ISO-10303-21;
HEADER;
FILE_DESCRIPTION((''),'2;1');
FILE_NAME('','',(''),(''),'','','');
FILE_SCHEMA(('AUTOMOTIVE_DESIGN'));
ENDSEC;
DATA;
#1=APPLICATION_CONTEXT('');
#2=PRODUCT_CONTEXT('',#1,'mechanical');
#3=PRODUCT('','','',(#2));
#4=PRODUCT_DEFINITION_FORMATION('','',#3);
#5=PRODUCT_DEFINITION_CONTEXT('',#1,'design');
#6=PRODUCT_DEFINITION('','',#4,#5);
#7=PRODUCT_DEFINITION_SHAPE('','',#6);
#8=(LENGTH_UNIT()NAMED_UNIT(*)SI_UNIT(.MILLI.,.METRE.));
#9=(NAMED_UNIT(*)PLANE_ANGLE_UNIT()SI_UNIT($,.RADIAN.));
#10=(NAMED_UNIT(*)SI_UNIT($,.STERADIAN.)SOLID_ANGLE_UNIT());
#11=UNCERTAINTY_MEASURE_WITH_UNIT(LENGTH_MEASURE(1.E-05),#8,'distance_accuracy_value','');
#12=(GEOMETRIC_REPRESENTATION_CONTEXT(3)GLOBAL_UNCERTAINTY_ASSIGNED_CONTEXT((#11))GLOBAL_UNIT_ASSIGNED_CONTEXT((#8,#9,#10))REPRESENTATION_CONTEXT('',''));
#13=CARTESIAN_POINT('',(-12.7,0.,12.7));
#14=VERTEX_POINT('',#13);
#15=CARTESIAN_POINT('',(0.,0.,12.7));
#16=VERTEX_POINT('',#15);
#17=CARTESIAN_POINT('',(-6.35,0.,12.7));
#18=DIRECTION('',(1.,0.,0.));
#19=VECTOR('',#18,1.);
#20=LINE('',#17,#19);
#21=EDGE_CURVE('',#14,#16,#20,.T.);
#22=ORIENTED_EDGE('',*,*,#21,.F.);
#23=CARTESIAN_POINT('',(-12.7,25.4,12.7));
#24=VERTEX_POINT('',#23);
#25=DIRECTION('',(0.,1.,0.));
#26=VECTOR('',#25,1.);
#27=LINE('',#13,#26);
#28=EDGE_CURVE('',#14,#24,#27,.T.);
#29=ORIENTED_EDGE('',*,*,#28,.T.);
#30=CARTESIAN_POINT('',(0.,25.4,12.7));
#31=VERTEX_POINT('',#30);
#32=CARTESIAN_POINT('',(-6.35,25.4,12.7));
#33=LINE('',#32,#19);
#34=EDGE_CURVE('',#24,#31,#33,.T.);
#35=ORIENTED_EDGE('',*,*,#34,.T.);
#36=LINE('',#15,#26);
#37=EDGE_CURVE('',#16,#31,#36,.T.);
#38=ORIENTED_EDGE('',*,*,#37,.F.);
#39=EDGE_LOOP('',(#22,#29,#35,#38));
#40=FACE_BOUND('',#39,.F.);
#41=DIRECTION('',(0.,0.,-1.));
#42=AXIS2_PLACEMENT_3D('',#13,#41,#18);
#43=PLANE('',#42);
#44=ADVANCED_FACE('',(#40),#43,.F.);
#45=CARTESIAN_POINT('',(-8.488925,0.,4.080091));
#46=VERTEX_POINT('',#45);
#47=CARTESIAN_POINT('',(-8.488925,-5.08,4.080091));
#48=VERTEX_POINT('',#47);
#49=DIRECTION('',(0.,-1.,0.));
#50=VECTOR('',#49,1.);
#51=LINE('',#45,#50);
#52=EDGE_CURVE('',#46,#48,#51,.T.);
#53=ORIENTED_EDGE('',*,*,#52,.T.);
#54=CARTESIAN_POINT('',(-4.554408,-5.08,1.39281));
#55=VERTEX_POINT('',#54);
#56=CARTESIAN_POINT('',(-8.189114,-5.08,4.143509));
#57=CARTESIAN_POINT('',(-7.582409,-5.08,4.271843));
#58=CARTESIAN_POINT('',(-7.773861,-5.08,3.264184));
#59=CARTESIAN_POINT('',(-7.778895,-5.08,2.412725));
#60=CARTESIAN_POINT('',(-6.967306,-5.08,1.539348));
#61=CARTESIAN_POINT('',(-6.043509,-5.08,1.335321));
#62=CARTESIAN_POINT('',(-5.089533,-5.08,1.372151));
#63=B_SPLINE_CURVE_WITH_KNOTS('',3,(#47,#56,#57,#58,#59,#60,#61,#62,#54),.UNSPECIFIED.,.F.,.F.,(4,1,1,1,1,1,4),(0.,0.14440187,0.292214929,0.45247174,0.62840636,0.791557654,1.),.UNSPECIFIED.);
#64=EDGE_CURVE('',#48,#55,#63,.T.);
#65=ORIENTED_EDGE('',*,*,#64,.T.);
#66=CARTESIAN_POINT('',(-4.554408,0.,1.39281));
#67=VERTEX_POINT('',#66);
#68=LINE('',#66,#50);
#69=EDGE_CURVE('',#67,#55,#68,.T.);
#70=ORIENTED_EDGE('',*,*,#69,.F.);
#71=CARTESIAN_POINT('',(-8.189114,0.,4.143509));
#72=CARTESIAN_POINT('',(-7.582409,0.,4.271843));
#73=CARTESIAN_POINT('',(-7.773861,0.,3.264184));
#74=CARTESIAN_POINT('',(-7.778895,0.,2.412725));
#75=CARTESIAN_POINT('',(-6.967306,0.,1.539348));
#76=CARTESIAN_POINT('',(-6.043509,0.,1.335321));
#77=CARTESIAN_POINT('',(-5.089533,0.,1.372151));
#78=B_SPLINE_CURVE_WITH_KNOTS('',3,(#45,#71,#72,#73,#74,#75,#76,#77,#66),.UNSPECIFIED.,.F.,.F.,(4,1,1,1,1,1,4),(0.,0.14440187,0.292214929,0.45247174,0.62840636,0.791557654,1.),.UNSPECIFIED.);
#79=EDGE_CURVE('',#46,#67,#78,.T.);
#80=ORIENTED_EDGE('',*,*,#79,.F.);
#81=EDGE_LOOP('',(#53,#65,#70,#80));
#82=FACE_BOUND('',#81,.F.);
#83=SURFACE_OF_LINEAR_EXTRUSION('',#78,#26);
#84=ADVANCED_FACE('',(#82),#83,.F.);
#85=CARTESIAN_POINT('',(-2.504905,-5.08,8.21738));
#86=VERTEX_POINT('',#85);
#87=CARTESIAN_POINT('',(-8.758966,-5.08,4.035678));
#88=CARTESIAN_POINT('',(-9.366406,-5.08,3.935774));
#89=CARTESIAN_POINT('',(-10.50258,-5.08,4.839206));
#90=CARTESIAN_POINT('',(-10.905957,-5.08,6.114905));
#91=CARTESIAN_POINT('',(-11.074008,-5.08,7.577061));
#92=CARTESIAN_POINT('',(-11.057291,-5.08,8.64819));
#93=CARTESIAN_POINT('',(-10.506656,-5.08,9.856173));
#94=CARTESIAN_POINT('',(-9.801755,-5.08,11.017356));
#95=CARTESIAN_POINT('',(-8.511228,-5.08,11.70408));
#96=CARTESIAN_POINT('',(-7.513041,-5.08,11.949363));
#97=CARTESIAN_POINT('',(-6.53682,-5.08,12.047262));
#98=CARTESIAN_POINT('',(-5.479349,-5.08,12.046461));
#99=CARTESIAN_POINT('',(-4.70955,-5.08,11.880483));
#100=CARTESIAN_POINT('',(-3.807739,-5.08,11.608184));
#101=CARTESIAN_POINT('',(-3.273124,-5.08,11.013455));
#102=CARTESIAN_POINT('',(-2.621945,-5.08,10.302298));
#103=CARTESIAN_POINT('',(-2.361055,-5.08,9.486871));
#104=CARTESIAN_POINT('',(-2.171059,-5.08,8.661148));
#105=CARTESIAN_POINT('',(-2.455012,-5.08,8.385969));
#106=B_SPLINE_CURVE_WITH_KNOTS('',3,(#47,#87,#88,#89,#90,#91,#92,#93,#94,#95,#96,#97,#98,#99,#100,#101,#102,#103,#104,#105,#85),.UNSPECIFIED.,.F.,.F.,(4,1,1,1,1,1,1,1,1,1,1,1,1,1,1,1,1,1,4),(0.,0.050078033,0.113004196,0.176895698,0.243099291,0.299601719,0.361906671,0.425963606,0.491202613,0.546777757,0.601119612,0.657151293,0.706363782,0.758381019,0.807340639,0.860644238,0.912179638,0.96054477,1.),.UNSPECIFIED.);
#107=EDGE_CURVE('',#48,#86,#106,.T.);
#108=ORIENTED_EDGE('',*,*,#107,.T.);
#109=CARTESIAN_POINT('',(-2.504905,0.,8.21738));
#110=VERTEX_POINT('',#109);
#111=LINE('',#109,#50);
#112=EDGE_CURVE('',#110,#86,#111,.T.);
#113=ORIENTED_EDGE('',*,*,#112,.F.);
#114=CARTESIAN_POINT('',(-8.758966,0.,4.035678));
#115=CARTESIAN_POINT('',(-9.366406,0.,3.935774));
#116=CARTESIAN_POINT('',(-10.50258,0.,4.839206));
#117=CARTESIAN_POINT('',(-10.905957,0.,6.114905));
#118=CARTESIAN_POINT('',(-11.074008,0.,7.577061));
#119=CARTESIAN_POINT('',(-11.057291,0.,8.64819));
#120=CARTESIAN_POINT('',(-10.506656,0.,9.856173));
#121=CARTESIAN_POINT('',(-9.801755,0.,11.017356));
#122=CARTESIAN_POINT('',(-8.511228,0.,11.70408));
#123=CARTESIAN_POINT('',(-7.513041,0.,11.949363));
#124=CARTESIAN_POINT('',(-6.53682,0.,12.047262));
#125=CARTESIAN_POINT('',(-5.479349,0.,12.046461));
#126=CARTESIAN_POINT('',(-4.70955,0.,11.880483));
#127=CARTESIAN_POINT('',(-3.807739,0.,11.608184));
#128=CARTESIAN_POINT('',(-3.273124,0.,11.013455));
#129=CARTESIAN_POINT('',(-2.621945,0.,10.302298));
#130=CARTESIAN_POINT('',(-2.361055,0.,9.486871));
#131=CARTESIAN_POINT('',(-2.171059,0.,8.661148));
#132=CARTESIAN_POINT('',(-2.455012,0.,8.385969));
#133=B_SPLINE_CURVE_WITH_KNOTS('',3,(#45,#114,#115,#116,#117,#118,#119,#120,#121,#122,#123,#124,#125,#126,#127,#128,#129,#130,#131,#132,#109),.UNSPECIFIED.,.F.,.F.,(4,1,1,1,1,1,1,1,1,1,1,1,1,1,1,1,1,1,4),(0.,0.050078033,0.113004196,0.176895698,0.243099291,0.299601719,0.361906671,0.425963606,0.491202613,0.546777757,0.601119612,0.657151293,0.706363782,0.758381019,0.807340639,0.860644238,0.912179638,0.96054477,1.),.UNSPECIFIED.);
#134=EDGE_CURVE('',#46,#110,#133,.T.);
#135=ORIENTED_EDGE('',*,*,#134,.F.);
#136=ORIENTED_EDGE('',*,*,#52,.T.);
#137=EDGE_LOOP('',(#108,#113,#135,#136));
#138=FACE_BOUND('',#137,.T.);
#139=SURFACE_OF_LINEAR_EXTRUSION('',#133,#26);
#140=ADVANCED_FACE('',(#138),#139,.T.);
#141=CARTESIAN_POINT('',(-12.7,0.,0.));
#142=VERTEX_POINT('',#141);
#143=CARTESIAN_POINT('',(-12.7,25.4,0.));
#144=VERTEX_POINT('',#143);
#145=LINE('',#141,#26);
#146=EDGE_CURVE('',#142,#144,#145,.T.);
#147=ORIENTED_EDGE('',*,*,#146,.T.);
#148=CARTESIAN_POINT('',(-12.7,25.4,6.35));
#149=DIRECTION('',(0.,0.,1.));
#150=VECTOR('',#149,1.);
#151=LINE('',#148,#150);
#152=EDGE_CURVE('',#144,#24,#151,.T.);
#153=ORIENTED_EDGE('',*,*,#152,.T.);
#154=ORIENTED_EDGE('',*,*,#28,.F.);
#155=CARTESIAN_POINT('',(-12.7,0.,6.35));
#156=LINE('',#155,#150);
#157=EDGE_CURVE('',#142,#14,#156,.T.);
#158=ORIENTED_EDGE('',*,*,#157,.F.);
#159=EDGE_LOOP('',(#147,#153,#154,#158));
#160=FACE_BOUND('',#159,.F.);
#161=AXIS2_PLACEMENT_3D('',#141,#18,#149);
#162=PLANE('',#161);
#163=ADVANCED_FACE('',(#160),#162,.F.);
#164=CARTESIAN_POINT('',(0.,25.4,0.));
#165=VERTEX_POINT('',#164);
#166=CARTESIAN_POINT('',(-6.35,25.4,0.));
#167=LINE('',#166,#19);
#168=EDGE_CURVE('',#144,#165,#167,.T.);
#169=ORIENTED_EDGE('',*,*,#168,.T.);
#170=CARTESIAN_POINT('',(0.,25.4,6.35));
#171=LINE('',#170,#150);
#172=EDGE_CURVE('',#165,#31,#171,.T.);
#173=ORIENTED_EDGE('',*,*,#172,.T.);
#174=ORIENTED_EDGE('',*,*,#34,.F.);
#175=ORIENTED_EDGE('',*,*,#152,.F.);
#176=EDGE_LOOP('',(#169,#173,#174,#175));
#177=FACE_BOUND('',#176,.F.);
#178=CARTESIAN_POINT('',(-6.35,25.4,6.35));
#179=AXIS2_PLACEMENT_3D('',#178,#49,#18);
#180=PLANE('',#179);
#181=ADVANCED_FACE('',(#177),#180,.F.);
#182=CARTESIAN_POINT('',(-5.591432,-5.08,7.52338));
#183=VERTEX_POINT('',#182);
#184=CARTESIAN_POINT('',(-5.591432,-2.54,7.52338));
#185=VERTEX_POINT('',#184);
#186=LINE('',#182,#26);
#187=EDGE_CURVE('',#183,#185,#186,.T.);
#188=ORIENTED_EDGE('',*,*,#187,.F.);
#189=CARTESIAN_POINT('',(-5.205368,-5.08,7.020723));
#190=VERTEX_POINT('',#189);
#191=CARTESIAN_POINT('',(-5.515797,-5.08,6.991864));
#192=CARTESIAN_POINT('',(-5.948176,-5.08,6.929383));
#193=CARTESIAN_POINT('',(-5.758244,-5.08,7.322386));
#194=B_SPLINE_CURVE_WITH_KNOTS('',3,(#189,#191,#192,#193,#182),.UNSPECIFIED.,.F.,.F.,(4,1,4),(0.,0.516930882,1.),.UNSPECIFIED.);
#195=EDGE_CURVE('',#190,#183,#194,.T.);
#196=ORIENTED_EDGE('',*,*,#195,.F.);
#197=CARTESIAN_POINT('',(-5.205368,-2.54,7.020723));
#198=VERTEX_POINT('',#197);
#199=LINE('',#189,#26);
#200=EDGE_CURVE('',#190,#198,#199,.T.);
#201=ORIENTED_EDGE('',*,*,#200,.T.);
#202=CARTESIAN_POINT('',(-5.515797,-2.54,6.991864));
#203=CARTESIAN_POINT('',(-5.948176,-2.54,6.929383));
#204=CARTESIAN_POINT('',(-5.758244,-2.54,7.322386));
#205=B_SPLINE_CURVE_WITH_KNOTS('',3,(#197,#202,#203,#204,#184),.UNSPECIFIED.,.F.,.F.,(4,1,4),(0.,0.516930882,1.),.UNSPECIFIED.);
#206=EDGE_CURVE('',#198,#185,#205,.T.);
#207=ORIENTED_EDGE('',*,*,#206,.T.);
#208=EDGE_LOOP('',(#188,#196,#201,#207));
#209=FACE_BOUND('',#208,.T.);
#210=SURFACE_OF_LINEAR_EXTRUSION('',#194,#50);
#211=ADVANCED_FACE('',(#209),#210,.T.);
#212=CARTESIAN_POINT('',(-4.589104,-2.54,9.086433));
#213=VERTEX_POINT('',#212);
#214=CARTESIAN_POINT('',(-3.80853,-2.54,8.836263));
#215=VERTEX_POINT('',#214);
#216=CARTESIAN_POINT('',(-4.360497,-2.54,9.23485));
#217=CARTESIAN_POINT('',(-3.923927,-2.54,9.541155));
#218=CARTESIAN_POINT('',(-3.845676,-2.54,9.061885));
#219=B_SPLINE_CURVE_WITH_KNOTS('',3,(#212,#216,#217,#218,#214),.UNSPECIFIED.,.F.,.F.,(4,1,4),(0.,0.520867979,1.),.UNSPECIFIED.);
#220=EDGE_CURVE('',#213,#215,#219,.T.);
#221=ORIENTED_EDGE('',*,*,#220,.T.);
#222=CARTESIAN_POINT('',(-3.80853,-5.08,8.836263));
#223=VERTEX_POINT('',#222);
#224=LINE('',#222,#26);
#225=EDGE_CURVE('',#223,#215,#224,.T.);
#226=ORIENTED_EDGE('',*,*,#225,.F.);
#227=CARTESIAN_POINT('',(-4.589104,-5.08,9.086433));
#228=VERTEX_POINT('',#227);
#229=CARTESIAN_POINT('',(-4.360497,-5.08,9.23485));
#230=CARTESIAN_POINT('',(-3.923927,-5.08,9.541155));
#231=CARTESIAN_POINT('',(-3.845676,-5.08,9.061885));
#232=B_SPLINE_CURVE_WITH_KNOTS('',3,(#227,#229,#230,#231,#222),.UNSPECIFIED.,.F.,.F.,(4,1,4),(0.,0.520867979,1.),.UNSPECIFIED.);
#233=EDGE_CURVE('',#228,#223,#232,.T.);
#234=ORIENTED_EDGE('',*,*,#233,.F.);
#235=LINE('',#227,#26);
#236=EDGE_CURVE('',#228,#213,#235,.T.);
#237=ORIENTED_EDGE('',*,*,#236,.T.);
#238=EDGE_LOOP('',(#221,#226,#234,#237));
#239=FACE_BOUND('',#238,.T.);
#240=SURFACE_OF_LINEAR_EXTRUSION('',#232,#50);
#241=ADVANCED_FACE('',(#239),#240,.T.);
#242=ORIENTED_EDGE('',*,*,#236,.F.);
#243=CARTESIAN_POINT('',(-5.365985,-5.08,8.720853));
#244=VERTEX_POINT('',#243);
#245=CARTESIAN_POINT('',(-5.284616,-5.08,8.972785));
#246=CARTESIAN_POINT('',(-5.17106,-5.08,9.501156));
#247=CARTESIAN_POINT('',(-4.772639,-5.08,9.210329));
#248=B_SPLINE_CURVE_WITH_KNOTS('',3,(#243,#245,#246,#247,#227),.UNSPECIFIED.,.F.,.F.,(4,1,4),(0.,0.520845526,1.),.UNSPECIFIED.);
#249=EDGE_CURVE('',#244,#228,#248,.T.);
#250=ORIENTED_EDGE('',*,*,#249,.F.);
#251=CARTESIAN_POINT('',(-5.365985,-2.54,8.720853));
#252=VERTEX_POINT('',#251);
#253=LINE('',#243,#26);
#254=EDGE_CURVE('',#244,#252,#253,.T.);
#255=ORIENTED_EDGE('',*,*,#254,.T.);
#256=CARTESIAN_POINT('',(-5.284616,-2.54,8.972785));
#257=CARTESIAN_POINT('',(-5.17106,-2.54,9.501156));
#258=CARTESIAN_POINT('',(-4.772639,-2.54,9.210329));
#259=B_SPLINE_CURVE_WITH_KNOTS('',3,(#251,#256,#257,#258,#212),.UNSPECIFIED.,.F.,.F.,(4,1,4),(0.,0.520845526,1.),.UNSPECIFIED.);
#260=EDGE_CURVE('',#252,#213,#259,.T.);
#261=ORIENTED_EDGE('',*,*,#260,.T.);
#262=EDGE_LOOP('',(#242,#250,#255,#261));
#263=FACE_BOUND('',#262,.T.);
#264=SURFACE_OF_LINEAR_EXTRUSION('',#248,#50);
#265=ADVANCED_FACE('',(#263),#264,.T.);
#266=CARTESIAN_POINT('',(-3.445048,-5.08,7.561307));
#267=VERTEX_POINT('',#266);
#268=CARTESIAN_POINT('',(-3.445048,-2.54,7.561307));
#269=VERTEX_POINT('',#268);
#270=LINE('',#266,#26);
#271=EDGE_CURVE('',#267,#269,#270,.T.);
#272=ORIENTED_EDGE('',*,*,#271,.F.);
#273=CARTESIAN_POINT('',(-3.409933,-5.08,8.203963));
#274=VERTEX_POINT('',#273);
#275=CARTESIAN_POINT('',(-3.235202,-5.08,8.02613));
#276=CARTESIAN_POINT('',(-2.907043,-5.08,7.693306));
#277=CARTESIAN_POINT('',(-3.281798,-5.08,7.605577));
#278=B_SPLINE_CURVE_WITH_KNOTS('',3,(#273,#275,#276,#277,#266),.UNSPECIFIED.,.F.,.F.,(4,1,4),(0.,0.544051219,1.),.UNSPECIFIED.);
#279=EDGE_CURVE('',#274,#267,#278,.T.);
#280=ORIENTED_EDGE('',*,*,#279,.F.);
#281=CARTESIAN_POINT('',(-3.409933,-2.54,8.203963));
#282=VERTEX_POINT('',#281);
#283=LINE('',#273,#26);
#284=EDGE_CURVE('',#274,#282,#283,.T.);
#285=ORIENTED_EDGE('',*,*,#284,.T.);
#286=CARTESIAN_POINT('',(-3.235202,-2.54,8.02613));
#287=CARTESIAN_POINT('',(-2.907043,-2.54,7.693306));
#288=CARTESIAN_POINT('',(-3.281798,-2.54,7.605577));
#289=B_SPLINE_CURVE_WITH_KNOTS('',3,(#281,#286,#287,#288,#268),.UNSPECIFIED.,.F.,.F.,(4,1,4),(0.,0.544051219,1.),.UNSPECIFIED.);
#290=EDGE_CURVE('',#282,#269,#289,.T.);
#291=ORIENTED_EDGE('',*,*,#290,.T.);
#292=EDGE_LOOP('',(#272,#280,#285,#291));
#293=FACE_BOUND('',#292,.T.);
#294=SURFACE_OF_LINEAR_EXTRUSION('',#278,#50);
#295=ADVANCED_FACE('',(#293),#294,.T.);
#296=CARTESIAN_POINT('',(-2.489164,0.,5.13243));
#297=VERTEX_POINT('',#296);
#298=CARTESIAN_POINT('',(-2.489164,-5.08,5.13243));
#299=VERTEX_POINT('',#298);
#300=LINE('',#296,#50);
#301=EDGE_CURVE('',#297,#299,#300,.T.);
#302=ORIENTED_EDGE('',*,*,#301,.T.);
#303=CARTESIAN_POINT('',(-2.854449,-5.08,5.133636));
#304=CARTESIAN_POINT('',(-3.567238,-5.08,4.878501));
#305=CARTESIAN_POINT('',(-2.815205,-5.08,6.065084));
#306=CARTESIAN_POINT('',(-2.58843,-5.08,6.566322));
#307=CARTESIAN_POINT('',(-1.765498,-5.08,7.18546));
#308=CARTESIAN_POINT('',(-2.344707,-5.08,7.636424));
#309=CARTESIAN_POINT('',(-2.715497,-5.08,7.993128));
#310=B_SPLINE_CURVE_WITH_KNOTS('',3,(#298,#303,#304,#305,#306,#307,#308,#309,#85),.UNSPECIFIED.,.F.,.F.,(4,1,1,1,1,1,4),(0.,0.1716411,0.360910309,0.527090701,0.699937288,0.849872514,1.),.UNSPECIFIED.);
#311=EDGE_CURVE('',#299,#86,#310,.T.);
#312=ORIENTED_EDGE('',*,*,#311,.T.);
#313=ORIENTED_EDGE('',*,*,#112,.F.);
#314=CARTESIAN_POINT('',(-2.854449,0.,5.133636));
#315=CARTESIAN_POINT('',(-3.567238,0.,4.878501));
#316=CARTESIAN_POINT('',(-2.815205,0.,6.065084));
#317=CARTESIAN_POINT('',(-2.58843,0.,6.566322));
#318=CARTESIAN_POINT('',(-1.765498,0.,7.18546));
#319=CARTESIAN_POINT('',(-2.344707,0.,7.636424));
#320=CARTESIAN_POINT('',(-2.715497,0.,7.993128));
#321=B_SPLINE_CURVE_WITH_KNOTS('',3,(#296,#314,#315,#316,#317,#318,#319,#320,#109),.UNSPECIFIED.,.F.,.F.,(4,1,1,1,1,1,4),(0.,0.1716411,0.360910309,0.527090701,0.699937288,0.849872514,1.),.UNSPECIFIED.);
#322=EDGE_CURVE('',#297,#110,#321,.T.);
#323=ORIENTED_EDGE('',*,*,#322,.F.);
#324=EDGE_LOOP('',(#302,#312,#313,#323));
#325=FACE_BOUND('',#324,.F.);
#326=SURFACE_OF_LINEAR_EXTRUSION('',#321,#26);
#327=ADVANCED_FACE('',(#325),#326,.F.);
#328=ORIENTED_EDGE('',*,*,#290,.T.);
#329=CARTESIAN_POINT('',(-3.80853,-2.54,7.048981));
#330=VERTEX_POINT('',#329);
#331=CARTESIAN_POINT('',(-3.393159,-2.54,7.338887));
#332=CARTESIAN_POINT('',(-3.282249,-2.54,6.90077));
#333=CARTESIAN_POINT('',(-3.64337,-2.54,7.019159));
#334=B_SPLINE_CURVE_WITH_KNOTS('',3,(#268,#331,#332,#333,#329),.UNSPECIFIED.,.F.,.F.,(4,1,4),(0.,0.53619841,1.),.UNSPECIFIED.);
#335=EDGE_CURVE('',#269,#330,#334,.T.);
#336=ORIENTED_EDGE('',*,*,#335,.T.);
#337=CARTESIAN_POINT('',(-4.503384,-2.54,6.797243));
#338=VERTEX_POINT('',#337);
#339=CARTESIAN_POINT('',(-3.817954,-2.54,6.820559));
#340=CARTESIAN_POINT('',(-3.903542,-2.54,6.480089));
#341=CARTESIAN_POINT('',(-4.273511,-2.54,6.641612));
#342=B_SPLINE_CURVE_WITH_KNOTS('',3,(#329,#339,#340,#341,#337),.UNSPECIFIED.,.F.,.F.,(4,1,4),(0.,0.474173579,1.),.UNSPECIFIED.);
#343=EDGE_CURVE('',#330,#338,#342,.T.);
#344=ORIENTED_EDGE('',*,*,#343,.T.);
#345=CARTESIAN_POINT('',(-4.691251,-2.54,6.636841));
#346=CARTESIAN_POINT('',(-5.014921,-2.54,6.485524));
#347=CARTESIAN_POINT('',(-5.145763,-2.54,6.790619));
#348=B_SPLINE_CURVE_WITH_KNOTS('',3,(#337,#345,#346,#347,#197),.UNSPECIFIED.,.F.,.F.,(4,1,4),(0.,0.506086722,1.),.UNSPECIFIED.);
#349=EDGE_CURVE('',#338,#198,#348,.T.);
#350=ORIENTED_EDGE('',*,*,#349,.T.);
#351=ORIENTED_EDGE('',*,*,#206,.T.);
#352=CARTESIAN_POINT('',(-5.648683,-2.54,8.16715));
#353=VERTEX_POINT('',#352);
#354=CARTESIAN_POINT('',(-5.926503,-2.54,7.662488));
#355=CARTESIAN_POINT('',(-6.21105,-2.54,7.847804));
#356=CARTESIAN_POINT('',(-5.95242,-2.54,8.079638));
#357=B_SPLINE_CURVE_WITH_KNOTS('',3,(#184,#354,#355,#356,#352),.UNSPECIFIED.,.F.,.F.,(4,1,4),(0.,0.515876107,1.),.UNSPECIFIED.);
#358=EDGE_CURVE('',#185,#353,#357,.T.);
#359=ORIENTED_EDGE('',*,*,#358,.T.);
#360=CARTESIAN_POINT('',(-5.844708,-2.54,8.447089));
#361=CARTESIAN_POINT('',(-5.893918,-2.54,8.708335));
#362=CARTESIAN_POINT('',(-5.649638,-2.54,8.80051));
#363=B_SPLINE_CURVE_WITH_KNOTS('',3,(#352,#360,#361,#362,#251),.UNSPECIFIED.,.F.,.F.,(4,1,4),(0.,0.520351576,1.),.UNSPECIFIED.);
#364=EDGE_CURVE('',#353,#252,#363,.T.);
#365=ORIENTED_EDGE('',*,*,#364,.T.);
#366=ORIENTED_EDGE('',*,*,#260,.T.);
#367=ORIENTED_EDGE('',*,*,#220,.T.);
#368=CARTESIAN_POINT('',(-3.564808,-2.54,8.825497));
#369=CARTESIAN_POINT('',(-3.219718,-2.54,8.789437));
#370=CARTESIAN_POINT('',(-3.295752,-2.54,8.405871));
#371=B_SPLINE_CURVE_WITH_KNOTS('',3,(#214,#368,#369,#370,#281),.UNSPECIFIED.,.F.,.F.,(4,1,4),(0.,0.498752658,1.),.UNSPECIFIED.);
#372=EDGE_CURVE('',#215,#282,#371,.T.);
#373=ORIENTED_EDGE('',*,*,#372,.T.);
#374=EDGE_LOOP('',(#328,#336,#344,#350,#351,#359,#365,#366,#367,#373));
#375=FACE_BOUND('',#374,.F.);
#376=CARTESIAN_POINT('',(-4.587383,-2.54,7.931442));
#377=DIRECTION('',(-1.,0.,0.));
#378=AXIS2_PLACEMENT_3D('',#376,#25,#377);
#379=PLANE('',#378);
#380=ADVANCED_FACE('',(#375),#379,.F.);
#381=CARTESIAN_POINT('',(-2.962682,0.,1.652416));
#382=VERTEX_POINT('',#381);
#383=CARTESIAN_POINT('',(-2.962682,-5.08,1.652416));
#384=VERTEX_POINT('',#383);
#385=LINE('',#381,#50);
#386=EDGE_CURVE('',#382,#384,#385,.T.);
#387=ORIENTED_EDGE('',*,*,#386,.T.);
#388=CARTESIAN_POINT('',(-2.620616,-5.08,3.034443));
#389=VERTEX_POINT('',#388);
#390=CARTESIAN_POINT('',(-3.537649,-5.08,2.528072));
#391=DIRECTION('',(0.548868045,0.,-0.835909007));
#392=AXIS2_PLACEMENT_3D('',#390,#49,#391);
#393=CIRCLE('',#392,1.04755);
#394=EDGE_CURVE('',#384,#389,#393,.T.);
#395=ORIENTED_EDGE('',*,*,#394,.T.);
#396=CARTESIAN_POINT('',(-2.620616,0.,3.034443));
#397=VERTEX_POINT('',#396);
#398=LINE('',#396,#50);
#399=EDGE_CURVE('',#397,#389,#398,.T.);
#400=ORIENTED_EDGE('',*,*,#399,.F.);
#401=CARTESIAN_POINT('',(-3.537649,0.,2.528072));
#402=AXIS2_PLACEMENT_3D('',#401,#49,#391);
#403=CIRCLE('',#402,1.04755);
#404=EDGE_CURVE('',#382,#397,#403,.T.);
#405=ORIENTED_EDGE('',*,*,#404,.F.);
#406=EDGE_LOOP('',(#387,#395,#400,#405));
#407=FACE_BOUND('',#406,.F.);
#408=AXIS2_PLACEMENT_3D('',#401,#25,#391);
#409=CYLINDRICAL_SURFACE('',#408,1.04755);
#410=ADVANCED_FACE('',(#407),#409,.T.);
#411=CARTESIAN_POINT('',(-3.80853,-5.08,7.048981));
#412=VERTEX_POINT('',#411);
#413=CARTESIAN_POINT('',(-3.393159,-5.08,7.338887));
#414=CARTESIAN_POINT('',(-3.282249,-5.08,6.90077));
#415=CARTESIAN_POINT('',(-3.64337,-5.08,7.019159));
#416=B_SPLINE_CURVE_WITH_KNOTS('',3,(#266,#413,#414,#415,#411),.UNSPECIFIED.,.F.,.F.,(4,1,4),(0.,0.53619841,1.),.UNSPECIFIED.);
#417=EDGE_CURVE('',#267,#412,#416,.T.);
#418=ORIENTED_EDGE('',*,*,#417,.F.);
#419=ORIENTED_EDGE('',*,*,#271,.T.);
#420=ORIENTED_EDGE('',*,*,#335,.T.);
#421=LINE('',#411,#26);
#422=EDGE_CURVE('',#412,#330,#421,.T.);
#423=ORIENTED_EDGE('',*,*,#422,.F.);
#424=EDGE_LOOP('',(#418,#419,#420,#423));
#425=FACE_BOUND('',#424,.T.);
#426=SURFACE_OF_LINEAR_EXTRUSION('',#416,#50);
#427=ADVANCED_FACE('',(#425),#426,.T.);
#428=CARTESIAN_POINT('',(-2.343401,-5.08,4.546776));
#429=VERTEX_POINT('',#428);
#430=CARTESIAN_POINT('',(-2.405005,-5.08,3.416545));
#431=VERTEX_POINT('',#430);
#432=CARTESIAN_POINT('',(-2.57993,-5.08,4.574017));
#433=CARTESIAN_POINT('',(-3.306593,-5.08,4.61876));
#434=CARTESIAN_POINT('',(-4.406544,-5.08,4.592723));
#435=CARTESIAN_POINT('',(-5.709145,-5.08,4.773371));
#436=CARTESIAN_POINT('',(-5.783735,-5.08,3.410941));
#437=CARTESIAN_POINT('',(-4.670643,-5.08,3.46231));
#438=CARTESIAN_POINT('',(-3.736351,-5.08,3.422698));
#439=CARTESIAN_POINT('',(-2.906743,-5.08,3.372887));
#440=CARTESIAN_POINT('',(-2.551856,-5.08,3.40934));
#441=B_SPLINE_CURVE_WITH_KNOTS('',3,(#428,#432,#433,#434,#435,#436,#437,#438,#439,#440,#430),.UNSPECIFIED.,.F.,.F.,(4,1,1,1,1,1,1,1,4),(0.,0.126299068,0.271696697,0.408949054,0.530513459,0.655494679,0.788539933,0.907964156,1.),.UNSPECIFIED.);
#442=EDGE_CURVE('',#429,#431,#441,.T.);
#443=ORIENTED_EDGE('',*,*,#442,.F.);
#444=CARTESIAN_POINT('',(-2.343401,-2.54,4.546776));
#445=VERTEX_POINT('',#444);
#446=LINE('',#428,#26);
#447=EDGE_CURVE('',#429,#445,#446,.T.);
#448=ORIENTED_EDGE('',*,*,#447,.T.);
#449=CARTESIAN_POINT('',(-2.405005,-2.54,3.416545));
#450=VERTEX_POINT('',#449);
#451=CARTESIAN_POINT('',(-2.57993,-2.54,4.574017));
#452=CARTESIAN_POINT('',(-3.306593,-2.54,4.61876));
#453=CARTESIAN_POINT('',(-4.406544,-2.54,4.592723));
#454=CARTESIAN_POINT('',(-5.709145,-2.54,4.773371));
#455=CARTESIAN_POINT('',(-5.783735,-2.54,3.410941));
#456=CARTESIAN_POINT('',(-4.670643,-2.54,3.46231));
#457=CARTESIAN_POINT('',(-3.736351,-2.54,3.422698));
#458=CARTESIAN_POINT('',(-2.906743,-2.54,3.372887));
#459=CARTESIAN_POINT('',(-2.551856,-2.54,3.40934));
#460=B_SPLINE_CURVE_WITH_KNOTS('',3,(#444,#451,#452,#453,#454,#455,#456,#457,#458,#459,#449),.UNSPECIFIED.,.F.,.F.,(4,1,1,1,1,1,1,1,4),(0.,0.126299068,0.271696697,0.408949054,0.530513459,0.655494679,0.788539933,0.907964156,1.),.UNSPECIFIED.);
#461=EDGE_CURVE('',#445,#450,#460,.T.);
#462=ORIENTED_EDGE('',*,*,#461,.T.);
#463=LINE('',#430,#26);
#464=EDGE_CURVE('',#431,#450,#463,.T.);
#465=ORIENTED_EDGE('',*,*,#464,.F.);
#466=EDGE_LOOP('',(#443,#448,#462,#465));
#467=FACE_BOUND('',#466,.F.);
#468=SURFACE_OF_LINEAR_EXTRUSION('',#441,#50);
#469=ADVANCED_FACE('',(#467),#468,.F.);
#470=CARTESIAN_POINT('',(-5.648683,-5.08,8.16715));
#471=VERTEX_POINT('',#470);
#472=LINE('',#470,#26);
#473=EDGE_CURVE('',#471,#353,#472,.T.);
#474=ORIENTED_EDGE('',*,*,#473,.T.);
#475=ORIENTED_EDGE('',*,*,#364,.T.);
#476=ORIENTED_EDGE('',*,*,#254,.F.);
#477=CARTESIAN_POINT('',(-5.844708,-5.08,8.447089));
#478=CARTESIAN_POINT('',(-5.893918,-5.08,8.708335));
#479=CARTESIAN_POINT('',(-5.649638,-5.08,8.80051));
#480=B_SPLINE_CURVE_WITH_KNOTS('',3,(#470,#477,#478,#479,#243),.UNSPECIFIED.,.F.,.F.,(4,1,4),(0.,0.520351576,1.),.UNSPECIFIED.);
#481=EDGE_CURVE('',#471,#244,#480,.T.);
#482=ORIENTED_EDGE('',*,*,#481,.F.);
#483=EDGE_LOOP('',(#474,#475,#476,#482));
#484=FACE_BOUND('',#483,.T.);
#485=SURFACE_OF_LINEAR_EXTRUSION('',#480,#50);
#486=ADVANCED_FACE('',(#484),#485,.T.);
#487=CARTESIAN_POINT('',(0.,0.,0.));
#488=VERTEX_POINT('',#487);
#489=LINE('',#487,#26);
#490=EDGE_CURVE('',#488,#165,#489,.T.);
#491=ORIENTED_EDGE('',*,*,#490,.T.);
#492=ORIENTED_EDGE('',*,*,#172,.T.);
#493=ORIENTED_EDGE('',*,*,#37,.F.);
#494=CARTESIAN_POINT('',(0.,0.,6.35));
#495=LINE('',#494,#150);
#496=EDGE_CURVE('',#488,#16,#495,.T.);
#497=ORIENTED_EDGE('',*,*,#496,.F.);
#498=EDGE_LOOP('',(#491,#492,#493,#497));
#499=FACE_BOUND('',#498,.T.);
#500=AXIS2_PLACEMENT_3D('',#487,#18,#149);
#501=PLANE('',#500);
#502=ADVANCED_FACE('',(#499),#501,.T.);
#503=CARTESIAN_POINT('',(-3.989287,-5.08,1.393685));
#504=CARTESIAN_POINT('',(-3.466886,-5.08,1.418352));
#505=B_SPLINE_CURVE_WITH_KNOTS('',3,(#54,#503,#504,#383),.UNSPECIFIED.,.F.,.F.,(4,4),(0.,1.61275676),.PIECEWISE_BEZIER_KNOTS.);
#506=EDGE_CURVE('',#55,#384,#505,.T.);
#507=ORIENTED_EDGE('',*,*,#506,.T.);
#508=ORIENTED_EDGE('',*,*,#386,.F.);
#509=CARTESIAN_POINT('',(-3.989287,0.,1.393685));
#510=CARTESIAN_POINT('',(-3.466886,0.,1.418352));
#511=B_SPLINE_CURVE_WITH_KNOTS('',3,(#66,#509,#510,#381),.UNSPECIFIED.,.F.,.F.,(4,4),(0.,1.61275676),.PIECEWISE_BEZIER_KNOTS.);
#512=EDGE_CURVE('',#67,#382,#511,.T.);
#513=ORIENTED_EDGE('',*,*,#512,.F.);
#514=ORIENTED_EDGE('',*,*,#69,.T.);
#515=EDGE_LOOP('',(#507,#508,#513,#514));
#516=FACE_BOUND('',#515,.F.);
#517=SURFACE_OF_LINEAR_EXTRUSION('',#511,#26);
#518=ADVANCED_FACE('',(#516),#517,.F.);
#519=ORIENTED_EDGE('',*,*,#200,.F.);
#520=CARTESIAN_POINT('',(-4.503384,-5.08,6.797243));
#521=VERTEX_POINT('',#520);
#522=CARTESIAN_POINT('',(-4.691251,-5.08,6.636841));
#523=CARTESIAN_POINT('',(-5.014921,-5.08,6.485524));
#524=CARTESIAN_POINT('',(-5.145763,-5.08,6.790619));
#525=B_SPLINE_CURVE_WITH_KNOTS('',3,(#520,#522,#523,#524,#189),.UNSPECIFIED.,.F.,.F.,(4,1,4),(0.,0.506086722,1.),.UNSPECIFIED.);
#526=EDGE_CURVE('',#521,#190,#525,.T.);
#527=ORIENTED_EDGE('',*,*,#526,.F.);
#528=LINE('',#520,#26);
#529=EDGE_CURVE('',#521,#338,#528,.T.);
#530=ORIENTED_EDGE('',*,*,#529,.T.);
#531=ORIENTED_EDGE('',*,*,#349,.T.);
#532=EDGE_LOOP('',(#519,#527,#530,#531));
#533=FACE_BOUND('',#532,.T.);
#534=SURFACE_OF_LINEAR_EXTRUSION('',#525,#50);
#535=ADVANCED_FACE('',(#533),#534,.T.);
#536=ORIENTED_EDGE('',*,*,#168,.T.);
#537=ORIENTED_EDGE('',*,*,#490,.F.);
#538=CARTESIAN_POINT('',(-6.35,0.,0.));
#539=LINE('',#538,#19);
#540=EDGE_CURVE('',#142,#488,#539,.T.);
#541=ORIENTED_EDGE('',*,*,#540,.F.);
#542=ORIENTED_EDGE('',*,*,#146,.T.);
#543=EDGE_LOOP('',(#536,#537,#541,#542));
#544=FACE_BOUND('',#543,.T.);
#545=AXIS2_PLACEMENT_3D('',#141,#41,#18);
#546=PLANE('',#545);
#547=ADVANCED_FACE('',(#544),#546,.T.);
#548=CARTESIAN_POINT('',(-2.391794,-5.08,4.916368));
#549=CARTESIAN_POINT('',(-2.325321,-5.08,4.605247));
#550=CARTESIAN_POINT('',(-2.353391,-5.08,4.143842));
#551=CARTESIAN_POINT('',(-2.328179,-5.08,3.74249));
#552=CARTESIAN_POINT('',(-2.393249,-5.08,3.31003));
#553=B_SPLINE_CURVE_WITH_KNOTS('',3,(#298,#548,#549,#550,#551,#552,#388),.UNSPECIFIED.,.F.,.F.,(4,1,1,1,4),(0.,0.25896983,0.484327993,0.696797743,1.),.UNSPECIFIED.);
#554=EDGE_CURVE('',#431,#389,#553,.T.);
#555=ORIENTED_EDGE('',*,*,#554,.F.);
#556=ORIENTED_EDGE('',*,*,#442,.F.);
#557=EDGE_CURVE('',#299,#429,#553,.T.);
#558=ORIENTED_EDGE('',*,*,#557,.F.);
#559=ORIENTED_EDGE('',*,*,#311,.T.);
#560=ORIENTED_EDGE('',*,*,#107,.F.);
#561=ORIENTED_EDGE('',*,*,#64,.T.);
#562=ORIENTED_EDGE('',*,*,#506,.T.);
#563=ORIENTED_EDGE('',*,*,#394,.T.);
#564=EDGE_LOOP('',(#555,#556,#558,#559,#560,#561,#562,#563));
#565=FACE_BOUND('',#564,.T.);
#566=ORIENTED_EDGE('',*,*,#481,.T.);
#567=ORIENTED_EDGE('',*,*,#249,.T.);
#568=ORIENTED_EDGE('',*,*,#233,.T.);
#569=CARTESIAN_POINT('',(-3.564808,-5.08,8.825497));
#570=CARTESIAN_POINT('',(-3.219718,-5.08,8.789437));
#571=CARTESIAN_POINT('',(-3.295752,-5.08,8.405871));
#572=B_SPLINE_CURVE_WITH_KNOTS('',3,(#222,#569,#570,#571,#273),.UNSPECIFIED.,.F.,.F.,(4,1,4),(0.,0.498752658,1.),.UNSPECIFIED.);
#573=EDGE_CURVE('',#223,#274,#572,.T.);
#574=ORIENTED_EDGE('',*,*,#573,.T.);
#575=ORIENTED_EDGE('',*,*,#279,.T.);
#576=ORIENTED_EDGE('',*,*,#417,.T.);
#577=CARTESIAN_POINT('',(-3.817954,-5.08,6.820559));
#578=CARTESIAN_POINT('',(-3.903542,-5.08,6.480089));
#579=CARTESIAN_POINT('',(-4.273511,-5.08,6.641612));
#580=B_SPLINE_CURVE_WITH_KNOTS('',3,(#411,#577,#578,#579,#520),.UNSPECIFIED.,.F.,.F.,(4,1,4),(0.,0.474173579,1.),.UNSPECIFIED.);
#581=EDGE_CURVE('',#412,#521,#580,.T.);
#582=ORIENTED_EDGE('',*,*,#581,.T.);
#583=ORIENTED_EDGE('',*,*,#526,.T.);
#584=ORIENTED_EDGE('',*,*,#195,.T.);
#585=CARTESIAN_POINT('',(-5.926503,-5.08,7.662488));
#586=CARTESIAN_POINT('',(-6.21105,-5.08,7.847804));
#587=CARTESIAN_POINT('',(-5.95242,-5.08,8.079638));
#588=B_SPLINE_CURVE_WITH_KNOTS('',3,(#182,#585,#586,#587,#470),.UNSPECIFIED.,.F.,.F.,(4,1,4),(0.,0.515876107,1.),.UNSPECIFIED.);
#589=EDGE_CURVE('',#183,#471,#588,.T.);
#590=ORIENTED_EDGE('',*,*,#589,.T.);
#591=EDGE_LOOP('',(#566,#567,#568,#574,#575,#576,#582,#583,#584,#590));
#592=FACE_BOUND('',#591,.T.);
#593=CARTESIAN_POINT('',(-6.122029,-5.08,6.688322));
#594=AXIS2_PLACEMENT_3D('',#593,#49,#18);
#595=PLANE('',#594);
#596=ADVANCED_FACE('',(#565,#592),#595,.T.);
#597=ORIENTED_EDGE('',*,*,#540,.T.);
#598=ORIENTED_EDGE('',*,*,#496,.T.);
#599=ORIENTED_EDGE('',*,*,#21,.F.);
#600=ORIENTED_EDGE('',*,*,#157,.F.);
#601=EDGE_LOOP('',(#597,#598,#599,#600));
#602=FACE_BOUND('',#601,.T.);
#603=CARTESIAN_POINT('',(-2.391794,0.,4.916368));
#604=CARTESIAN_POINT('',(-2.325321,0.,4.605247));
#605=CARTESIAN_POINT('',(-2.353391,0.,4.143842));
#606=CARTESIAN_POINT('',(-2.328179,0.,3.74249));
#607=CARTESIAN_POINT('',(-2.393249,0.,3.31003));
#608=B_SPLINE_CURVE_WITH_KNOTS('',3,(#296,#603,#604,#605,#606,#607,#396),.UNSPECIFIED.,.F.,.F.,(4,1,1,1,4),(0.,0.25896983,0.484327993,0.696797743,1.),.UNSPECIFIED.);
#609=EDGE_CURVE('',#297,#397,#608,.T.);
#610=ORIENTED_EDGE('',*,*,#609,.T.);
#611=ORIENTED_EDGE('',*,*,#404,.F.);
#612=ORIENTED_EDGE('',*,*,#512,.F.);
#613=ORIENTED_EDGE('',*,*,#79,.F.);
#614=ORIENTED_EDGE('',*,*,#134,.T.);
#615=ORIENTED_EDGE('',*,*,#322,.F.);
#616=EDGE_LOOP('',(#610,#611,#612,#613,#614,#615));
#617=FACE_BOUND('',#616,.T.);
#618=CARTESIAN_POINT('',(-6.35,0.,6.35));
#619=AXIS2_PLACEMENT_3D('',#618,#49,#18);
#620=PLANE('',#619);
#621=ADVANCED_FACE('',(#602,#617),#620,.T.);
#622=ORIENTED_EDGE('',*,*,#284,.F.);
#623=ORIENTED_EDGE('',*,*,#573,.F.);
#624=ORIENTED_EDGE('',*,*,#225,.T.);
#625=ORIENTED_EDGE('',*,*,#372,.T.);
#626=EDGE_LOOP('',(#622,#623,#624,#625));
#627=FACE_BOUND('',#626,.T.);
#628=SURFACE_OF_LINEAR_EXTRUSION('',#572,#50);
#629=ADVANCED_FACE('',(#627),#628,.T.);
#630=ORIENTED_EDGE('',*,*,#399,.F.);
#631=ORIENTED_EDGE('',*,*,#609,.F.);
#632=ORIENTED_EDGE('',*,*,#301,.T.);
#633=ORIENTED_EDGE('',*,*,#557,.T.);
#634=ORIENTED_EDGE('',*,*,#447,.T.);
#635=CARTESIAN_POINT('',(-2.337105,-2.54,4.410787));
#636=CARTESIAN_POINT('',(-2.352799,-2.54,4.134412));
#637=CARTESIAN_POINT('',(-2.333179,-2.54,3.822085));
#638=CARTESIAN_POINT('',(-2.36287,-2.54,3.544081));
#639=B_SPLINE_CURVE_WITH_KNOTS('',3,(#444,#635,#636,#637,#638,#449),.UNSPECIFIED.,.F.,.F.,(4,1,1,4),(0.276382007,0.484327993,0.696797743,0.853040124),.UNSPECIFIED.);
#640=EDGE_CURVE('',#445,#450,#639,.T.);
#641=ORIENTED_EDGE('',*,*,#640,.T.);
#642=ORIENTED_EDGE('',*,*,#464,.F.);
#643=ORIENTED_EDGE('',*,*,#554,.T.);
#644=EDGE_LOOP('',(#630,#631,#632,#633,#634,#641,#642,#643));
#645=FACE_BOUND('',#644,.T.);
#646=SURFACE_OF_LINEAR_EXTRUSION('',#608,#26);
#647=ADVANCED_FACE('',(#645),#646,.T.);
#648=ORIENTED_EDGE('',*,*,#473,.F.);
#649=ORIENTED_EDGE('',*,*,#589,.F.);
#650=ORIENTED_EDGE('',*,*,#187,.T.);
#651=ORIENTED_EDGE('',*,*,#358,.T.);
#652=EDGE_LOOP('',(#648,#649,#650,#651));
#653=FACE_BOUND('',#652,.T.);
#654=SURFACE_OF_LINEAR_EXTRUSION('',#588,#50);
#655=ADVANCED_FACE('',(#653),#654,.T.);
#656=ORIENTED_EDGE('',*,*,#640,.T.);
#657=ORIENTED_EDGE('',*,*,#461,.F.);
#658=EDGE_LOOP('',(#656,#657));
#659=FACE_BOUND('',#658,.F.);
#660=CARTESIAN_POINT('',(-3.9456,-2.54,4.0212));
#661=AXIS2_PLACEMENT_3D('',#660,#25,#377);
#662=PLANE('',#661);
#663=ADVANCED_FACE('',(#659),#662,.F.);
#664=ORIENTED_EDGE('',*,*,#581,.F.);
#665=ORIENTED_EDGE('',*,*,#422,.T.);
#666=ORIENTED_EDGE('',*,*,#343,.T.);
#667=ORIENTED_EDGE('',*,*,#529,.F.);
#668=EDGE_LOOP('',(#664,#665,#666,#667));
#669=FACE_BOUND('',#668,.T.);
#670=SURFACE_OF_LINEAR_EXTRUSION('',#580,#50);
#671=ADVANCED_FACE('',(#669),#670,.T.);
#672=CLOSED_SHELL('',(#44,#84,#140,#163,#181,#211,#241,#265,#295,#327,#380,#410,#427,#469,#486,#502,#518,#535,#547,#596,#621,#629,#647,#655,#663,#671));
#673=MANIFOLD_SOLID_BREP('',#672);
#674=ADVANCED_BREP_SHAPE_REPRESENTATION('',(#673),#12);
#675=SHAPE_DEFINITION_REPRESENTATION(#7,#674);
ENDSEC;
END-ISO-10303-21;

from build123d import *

# Parameters (mm, degrees)
F2_DEPTH = 5.08
F4_DEPTH = 2.54
F1_W     = 12.7
F1_H     = 12.7
F5_DEPTH = 25.4


with BuildPart() as f2:
    # F0 (on Front) → F2 (new body)
    with BuildSketch(Plane.XZ):
        with BuildLine():
            add(Edge.make_bspline(
                [(-4.5544075169, 1.3928102558), (-3.9892874978, 1.3936850005), (-3.4668862346, 1.4183520112), (-2.9626822173, 1.6524156046)],
                knots=[0, 0, 0, 0, 1.6127567598, 1.6127567598, 1.6127567598, 1.6127567598], degree=3))
            ThreePointArc((-2.9626822173, 1.6524156046), (-2.5207832675, 2.2763871387), (-2.6206157382, 3.0344429644))
            add(Edge.make_bspline(
                [(-2.4891644716, 5.1324297674), (-2.3917935509, 4.9163684072), (-2.3253208599, 4.6052474923), (-2.353390935, 4.1438424987), (-2.3281786078, 3.742489633), (-2.3932487238, 3.3100298606), (-2.6206157382, 3.0344429644)],
                knots=[0, 0, 0, 0, 0.2589698298, 0.4843279934, 0.6967977434, 1, 1, 1, 1], degree=3))
            add(Edge.make_bspline(
                [(-2.4891644716, 5.1324297674), (-2.8544493428, 5.1336356945), (-3.5672375297, 4.8785009618), (-2.8152049208, 6.0650838014), (-2.5884297024, 6.5663222822), (-1.7654979463, 7.1854603195), (-2.3447073669, 7.6364237388), (-2.7154974719, 7.9931282788), (-2.5049047545, 8.2173803821)],
                knots=[0, 0, 0, 0, 0.1716411, 0.3609103093, 0.5270907012, 0.6999372879, 0.8498725142, 1, 1, 1, 1], degree=3))
            add(Edge.make_bspline(
                [(-8.4889251739, 4.0800906718), (-8.7589659452, 4.0356777743), (-9.3664055338, 3.9357737781), (-10.5025798395, 4.8392058498), (-10.9059573733, 6.1149046303), (-11.0740084695, 7.5770614576), (-11.0572913783, 8.6481895291), (-10.5066556684, 9.8561725352), (-9.801754858, 11.0173560965), (-8.5112279732, 11.7040800215), (-7.5130409963, 11.949362548), (-6.5368197907, 12.0472622026), (-5.4793488606, 12.0464613388), (-4.709549558, 11.8804829441), (-3.8077392578, 11.6081842347), (-3.2731241454, 11.0134554774), (-2.6219451437, 10.30229784), (-2.3610549942, 9.4868714168), (-2.171059183, 8.6611482213), (-2.4550122068, 8.385969167), (-2.5049047545, 8.2173803821)],
                knots=[0, 0, 0, 0, 0.0500780332, 0.1130041956, 0.1768956978, 0.2430992912, 0.299601719, 0.3619066714, 0.4259636055, 0.4912026128, 0.546777757, 0.6011196121, 0.6571512931, 0.7063637819, 0.7583810191, 0.807340639, 0.8606442381, 0.9121796378, 0.9605447696, 1, 1, 1, 1], degree=3))
            add(Edge.make_bspline(
                [(-8.4889251739, 4.0800906718), (-8.1891140401, 4.1435086925), (-7.5824093701, 4.2718428501), (-7.7738611768, 3.2641836277), (-7.7788952185, 2.4127249564), (-6.96730618, 1.53934763), (-6.0435092719, 1.3353211789), (-5.0895326997, 1.3721509203), (-4.5544075169, 1.3928102558)],
                knots=[0, 0, 0, 0, 0.1444018704, 0.2922149289, 0.4524717395, 0.6284063598, 0.7915576541, 1, 1, 1, 1], degree=3))
        make_face()
    extrude(amount=F2_DEPTH)

    # F3 (on face) → F4 (cut)
    with BuildSketch(Plane.XZ.offset(5.08)):
        with BuildLine():
            add(Edge.make_bspline(
                [(-5.3659848497, 8.7208530881), (-5.2846155708, 8.9727846377), (-5.1710596458, 9.5011555318), (-4.7726393834, 9.210328647), (-4.5891036161, 9.0864328929)],
                knots=[0, 0, 0, 0, 0.5208455257, 1, 1, 1, 1], degree=3))
            add(Edge.make_bspline(
                [(-5.6486829395, 8.1671502605), (-5.8447078545, 8.4470894225), (-5.89391753, 8.7083353104), (-5.6496376746, 8.8005099615), (-5.3659848497, 8.7208530881)],
                knots=[0, 0, 0, 0, 0.5203515764, 1, 1, 1, 1], degree=3))
            add(Edge.make_bspline(
                [(-5.5914319294, 7.523380365), (-5.9265031703, 7.6624876681), (-6.211049844, 7.8478040514), (-5.9524201806, 8.0796377028), (-5.6486829395, 8.1671502605)],
                knots=[0, 0, 0, 0, 0.5158761073, 1, 1, 1, 1], degree=3))
            add(Edge.make_bspline(
                [(-5.205368324, 7.020722894), (-5.515797094, 6.9918642839), (-5.9481758185, 6.9293833828), (-5.7582442305, 7.3223857959), (-5.5914319294, 7.523380365)],
                knots=[0, 0, 0, 0, 0.5169308821, 1, 1, 1, 1], degree=3))
            add(Edge.make_bspline(
                [(-4.503384329, 6.7972433223), (-4.6912512029, 6.6368405751), (-5.0149208939, 6.4855239947), (-5.1457634756, 6.7906186317), (-5.205368324, 7.020722894)],
                knots=[0, 0, 0, 0, 0.5060867221, 1, 1, 1, 1], degree=3))
            add(Edge.make_bspline(
                [(-3.8085296017, 7.0489807986), (-3.8179540305, 6.8205589246), (-3.9035421605, 6.4800894964), (-4.2735109706, 6.6416122857), (-4.503384329, 6.7972433223)],
                knots=[0, 0, 0, 0, 0.4741735792, 1, 1, 1, 1], degree=3))
            add(Edge.make_bspline(
                [(-3.4450484308, 7.5613067453), (-3.3931593436, 7.3388874407), (-3.2822488519, 6.9007696507), (-3.643370237, 7.0191586974), (-3.8085296017, 7.0489807986)],
                knots=[0, 0, 0, 0, 0.5361984101, 1, 1, 1, 1], degree=3))
            add(Edge.make_bspline(
                [(-3.4099325727, 8.2039631478), (-3.2352017889, 8.026130414), (-2.9070428182, 7.6933064131), (-3.2817976238, 7.6055767004), (-3.4450484308, 7.5613067453)],
                knots=[0, 0, 0, 0, 0.544051219, 1, 1, 1, 1], degree=3))
            add(Edge.make_bspline(
                [(-3.8085296017, 8.8362629435), (-3.5648082767, 8.8254965564), (-3.2197177366, 8.7894369685), (-3.2957520719, 8.4058710656), (-3.4099325727, 8.2039631478)],
                knots=[0, 0, 0, 0, 0.498752658, 1, 1, 1, 1], degree=3))
            add(Edge.make_bspline(
                [(-4.5891036161, 9.0864328929), (-4.3604972194, 9.2348500345), (-3.9239269227, 9.5411548249), (-3.8456756119, 9.0618850519), (-3.8085296017, 8.8362629435)],
                knots=[0, 0, 0, 0, 0.5208679793, 1, 1, 1, 1], degree=3))
        make_face()
        with BuildLine():
            add(Edge.make_bspline(
                [(-2.3434008563, 4.5467756363), (-2.3371047246, 4.4107865736), (-2.3527985145, 4.134411807), (-2.3331786748, 3.8220852684), (-2.3628702318, 3.5440811456), (-2.4050047171, 3.4165451502)],
                knots=[0.2763820067, 0.2763820067, 0.2763820067, 0.2763820067, 0.4843279934, 0.6967977434, 0.8530401243, 0.8530401243, 0.8530401243, 0.8530401243], degree=3))
            add(Edge.make_bspline(
                [(-2.3434008563, 4.5467756363), (-2.5799295982, 4.5740173506), (-3.306592605, 4.6187595682), (-4.4065439596, 4.5927229699), (-5.7091448571, 4.7733705585), (-5.7837350784, 3.4109409569), (-4.6706431829, 3.462309837), (-3.7363509645, 3.4226981298), (-2.9067433155, 3.3728872928), (-2.551855723, 3.4093395126), (-2.4050047171, 3.4165451502)],
                knots=[0, 0, 0, 0, 0.1262990683, 0.2716966967, 0.4089490542, 0.5305134586, 0.6554946789, 0.788539933, 0.9079641556, 1, 1, 1, 1], degree=3))
        make_face()
    extrude(amount=-F4_DEPTH, mode=Mode.SUBTRACT)

    # F1 (on Front) → F5 (join)
    with BuildSketch(Plane.XZ):
        with Locations((-6.35, 6.35)):
            Rectangle(F1_W, F1_H)
    extrude(amount=-F5_DEPTH)


solid = f2.part
